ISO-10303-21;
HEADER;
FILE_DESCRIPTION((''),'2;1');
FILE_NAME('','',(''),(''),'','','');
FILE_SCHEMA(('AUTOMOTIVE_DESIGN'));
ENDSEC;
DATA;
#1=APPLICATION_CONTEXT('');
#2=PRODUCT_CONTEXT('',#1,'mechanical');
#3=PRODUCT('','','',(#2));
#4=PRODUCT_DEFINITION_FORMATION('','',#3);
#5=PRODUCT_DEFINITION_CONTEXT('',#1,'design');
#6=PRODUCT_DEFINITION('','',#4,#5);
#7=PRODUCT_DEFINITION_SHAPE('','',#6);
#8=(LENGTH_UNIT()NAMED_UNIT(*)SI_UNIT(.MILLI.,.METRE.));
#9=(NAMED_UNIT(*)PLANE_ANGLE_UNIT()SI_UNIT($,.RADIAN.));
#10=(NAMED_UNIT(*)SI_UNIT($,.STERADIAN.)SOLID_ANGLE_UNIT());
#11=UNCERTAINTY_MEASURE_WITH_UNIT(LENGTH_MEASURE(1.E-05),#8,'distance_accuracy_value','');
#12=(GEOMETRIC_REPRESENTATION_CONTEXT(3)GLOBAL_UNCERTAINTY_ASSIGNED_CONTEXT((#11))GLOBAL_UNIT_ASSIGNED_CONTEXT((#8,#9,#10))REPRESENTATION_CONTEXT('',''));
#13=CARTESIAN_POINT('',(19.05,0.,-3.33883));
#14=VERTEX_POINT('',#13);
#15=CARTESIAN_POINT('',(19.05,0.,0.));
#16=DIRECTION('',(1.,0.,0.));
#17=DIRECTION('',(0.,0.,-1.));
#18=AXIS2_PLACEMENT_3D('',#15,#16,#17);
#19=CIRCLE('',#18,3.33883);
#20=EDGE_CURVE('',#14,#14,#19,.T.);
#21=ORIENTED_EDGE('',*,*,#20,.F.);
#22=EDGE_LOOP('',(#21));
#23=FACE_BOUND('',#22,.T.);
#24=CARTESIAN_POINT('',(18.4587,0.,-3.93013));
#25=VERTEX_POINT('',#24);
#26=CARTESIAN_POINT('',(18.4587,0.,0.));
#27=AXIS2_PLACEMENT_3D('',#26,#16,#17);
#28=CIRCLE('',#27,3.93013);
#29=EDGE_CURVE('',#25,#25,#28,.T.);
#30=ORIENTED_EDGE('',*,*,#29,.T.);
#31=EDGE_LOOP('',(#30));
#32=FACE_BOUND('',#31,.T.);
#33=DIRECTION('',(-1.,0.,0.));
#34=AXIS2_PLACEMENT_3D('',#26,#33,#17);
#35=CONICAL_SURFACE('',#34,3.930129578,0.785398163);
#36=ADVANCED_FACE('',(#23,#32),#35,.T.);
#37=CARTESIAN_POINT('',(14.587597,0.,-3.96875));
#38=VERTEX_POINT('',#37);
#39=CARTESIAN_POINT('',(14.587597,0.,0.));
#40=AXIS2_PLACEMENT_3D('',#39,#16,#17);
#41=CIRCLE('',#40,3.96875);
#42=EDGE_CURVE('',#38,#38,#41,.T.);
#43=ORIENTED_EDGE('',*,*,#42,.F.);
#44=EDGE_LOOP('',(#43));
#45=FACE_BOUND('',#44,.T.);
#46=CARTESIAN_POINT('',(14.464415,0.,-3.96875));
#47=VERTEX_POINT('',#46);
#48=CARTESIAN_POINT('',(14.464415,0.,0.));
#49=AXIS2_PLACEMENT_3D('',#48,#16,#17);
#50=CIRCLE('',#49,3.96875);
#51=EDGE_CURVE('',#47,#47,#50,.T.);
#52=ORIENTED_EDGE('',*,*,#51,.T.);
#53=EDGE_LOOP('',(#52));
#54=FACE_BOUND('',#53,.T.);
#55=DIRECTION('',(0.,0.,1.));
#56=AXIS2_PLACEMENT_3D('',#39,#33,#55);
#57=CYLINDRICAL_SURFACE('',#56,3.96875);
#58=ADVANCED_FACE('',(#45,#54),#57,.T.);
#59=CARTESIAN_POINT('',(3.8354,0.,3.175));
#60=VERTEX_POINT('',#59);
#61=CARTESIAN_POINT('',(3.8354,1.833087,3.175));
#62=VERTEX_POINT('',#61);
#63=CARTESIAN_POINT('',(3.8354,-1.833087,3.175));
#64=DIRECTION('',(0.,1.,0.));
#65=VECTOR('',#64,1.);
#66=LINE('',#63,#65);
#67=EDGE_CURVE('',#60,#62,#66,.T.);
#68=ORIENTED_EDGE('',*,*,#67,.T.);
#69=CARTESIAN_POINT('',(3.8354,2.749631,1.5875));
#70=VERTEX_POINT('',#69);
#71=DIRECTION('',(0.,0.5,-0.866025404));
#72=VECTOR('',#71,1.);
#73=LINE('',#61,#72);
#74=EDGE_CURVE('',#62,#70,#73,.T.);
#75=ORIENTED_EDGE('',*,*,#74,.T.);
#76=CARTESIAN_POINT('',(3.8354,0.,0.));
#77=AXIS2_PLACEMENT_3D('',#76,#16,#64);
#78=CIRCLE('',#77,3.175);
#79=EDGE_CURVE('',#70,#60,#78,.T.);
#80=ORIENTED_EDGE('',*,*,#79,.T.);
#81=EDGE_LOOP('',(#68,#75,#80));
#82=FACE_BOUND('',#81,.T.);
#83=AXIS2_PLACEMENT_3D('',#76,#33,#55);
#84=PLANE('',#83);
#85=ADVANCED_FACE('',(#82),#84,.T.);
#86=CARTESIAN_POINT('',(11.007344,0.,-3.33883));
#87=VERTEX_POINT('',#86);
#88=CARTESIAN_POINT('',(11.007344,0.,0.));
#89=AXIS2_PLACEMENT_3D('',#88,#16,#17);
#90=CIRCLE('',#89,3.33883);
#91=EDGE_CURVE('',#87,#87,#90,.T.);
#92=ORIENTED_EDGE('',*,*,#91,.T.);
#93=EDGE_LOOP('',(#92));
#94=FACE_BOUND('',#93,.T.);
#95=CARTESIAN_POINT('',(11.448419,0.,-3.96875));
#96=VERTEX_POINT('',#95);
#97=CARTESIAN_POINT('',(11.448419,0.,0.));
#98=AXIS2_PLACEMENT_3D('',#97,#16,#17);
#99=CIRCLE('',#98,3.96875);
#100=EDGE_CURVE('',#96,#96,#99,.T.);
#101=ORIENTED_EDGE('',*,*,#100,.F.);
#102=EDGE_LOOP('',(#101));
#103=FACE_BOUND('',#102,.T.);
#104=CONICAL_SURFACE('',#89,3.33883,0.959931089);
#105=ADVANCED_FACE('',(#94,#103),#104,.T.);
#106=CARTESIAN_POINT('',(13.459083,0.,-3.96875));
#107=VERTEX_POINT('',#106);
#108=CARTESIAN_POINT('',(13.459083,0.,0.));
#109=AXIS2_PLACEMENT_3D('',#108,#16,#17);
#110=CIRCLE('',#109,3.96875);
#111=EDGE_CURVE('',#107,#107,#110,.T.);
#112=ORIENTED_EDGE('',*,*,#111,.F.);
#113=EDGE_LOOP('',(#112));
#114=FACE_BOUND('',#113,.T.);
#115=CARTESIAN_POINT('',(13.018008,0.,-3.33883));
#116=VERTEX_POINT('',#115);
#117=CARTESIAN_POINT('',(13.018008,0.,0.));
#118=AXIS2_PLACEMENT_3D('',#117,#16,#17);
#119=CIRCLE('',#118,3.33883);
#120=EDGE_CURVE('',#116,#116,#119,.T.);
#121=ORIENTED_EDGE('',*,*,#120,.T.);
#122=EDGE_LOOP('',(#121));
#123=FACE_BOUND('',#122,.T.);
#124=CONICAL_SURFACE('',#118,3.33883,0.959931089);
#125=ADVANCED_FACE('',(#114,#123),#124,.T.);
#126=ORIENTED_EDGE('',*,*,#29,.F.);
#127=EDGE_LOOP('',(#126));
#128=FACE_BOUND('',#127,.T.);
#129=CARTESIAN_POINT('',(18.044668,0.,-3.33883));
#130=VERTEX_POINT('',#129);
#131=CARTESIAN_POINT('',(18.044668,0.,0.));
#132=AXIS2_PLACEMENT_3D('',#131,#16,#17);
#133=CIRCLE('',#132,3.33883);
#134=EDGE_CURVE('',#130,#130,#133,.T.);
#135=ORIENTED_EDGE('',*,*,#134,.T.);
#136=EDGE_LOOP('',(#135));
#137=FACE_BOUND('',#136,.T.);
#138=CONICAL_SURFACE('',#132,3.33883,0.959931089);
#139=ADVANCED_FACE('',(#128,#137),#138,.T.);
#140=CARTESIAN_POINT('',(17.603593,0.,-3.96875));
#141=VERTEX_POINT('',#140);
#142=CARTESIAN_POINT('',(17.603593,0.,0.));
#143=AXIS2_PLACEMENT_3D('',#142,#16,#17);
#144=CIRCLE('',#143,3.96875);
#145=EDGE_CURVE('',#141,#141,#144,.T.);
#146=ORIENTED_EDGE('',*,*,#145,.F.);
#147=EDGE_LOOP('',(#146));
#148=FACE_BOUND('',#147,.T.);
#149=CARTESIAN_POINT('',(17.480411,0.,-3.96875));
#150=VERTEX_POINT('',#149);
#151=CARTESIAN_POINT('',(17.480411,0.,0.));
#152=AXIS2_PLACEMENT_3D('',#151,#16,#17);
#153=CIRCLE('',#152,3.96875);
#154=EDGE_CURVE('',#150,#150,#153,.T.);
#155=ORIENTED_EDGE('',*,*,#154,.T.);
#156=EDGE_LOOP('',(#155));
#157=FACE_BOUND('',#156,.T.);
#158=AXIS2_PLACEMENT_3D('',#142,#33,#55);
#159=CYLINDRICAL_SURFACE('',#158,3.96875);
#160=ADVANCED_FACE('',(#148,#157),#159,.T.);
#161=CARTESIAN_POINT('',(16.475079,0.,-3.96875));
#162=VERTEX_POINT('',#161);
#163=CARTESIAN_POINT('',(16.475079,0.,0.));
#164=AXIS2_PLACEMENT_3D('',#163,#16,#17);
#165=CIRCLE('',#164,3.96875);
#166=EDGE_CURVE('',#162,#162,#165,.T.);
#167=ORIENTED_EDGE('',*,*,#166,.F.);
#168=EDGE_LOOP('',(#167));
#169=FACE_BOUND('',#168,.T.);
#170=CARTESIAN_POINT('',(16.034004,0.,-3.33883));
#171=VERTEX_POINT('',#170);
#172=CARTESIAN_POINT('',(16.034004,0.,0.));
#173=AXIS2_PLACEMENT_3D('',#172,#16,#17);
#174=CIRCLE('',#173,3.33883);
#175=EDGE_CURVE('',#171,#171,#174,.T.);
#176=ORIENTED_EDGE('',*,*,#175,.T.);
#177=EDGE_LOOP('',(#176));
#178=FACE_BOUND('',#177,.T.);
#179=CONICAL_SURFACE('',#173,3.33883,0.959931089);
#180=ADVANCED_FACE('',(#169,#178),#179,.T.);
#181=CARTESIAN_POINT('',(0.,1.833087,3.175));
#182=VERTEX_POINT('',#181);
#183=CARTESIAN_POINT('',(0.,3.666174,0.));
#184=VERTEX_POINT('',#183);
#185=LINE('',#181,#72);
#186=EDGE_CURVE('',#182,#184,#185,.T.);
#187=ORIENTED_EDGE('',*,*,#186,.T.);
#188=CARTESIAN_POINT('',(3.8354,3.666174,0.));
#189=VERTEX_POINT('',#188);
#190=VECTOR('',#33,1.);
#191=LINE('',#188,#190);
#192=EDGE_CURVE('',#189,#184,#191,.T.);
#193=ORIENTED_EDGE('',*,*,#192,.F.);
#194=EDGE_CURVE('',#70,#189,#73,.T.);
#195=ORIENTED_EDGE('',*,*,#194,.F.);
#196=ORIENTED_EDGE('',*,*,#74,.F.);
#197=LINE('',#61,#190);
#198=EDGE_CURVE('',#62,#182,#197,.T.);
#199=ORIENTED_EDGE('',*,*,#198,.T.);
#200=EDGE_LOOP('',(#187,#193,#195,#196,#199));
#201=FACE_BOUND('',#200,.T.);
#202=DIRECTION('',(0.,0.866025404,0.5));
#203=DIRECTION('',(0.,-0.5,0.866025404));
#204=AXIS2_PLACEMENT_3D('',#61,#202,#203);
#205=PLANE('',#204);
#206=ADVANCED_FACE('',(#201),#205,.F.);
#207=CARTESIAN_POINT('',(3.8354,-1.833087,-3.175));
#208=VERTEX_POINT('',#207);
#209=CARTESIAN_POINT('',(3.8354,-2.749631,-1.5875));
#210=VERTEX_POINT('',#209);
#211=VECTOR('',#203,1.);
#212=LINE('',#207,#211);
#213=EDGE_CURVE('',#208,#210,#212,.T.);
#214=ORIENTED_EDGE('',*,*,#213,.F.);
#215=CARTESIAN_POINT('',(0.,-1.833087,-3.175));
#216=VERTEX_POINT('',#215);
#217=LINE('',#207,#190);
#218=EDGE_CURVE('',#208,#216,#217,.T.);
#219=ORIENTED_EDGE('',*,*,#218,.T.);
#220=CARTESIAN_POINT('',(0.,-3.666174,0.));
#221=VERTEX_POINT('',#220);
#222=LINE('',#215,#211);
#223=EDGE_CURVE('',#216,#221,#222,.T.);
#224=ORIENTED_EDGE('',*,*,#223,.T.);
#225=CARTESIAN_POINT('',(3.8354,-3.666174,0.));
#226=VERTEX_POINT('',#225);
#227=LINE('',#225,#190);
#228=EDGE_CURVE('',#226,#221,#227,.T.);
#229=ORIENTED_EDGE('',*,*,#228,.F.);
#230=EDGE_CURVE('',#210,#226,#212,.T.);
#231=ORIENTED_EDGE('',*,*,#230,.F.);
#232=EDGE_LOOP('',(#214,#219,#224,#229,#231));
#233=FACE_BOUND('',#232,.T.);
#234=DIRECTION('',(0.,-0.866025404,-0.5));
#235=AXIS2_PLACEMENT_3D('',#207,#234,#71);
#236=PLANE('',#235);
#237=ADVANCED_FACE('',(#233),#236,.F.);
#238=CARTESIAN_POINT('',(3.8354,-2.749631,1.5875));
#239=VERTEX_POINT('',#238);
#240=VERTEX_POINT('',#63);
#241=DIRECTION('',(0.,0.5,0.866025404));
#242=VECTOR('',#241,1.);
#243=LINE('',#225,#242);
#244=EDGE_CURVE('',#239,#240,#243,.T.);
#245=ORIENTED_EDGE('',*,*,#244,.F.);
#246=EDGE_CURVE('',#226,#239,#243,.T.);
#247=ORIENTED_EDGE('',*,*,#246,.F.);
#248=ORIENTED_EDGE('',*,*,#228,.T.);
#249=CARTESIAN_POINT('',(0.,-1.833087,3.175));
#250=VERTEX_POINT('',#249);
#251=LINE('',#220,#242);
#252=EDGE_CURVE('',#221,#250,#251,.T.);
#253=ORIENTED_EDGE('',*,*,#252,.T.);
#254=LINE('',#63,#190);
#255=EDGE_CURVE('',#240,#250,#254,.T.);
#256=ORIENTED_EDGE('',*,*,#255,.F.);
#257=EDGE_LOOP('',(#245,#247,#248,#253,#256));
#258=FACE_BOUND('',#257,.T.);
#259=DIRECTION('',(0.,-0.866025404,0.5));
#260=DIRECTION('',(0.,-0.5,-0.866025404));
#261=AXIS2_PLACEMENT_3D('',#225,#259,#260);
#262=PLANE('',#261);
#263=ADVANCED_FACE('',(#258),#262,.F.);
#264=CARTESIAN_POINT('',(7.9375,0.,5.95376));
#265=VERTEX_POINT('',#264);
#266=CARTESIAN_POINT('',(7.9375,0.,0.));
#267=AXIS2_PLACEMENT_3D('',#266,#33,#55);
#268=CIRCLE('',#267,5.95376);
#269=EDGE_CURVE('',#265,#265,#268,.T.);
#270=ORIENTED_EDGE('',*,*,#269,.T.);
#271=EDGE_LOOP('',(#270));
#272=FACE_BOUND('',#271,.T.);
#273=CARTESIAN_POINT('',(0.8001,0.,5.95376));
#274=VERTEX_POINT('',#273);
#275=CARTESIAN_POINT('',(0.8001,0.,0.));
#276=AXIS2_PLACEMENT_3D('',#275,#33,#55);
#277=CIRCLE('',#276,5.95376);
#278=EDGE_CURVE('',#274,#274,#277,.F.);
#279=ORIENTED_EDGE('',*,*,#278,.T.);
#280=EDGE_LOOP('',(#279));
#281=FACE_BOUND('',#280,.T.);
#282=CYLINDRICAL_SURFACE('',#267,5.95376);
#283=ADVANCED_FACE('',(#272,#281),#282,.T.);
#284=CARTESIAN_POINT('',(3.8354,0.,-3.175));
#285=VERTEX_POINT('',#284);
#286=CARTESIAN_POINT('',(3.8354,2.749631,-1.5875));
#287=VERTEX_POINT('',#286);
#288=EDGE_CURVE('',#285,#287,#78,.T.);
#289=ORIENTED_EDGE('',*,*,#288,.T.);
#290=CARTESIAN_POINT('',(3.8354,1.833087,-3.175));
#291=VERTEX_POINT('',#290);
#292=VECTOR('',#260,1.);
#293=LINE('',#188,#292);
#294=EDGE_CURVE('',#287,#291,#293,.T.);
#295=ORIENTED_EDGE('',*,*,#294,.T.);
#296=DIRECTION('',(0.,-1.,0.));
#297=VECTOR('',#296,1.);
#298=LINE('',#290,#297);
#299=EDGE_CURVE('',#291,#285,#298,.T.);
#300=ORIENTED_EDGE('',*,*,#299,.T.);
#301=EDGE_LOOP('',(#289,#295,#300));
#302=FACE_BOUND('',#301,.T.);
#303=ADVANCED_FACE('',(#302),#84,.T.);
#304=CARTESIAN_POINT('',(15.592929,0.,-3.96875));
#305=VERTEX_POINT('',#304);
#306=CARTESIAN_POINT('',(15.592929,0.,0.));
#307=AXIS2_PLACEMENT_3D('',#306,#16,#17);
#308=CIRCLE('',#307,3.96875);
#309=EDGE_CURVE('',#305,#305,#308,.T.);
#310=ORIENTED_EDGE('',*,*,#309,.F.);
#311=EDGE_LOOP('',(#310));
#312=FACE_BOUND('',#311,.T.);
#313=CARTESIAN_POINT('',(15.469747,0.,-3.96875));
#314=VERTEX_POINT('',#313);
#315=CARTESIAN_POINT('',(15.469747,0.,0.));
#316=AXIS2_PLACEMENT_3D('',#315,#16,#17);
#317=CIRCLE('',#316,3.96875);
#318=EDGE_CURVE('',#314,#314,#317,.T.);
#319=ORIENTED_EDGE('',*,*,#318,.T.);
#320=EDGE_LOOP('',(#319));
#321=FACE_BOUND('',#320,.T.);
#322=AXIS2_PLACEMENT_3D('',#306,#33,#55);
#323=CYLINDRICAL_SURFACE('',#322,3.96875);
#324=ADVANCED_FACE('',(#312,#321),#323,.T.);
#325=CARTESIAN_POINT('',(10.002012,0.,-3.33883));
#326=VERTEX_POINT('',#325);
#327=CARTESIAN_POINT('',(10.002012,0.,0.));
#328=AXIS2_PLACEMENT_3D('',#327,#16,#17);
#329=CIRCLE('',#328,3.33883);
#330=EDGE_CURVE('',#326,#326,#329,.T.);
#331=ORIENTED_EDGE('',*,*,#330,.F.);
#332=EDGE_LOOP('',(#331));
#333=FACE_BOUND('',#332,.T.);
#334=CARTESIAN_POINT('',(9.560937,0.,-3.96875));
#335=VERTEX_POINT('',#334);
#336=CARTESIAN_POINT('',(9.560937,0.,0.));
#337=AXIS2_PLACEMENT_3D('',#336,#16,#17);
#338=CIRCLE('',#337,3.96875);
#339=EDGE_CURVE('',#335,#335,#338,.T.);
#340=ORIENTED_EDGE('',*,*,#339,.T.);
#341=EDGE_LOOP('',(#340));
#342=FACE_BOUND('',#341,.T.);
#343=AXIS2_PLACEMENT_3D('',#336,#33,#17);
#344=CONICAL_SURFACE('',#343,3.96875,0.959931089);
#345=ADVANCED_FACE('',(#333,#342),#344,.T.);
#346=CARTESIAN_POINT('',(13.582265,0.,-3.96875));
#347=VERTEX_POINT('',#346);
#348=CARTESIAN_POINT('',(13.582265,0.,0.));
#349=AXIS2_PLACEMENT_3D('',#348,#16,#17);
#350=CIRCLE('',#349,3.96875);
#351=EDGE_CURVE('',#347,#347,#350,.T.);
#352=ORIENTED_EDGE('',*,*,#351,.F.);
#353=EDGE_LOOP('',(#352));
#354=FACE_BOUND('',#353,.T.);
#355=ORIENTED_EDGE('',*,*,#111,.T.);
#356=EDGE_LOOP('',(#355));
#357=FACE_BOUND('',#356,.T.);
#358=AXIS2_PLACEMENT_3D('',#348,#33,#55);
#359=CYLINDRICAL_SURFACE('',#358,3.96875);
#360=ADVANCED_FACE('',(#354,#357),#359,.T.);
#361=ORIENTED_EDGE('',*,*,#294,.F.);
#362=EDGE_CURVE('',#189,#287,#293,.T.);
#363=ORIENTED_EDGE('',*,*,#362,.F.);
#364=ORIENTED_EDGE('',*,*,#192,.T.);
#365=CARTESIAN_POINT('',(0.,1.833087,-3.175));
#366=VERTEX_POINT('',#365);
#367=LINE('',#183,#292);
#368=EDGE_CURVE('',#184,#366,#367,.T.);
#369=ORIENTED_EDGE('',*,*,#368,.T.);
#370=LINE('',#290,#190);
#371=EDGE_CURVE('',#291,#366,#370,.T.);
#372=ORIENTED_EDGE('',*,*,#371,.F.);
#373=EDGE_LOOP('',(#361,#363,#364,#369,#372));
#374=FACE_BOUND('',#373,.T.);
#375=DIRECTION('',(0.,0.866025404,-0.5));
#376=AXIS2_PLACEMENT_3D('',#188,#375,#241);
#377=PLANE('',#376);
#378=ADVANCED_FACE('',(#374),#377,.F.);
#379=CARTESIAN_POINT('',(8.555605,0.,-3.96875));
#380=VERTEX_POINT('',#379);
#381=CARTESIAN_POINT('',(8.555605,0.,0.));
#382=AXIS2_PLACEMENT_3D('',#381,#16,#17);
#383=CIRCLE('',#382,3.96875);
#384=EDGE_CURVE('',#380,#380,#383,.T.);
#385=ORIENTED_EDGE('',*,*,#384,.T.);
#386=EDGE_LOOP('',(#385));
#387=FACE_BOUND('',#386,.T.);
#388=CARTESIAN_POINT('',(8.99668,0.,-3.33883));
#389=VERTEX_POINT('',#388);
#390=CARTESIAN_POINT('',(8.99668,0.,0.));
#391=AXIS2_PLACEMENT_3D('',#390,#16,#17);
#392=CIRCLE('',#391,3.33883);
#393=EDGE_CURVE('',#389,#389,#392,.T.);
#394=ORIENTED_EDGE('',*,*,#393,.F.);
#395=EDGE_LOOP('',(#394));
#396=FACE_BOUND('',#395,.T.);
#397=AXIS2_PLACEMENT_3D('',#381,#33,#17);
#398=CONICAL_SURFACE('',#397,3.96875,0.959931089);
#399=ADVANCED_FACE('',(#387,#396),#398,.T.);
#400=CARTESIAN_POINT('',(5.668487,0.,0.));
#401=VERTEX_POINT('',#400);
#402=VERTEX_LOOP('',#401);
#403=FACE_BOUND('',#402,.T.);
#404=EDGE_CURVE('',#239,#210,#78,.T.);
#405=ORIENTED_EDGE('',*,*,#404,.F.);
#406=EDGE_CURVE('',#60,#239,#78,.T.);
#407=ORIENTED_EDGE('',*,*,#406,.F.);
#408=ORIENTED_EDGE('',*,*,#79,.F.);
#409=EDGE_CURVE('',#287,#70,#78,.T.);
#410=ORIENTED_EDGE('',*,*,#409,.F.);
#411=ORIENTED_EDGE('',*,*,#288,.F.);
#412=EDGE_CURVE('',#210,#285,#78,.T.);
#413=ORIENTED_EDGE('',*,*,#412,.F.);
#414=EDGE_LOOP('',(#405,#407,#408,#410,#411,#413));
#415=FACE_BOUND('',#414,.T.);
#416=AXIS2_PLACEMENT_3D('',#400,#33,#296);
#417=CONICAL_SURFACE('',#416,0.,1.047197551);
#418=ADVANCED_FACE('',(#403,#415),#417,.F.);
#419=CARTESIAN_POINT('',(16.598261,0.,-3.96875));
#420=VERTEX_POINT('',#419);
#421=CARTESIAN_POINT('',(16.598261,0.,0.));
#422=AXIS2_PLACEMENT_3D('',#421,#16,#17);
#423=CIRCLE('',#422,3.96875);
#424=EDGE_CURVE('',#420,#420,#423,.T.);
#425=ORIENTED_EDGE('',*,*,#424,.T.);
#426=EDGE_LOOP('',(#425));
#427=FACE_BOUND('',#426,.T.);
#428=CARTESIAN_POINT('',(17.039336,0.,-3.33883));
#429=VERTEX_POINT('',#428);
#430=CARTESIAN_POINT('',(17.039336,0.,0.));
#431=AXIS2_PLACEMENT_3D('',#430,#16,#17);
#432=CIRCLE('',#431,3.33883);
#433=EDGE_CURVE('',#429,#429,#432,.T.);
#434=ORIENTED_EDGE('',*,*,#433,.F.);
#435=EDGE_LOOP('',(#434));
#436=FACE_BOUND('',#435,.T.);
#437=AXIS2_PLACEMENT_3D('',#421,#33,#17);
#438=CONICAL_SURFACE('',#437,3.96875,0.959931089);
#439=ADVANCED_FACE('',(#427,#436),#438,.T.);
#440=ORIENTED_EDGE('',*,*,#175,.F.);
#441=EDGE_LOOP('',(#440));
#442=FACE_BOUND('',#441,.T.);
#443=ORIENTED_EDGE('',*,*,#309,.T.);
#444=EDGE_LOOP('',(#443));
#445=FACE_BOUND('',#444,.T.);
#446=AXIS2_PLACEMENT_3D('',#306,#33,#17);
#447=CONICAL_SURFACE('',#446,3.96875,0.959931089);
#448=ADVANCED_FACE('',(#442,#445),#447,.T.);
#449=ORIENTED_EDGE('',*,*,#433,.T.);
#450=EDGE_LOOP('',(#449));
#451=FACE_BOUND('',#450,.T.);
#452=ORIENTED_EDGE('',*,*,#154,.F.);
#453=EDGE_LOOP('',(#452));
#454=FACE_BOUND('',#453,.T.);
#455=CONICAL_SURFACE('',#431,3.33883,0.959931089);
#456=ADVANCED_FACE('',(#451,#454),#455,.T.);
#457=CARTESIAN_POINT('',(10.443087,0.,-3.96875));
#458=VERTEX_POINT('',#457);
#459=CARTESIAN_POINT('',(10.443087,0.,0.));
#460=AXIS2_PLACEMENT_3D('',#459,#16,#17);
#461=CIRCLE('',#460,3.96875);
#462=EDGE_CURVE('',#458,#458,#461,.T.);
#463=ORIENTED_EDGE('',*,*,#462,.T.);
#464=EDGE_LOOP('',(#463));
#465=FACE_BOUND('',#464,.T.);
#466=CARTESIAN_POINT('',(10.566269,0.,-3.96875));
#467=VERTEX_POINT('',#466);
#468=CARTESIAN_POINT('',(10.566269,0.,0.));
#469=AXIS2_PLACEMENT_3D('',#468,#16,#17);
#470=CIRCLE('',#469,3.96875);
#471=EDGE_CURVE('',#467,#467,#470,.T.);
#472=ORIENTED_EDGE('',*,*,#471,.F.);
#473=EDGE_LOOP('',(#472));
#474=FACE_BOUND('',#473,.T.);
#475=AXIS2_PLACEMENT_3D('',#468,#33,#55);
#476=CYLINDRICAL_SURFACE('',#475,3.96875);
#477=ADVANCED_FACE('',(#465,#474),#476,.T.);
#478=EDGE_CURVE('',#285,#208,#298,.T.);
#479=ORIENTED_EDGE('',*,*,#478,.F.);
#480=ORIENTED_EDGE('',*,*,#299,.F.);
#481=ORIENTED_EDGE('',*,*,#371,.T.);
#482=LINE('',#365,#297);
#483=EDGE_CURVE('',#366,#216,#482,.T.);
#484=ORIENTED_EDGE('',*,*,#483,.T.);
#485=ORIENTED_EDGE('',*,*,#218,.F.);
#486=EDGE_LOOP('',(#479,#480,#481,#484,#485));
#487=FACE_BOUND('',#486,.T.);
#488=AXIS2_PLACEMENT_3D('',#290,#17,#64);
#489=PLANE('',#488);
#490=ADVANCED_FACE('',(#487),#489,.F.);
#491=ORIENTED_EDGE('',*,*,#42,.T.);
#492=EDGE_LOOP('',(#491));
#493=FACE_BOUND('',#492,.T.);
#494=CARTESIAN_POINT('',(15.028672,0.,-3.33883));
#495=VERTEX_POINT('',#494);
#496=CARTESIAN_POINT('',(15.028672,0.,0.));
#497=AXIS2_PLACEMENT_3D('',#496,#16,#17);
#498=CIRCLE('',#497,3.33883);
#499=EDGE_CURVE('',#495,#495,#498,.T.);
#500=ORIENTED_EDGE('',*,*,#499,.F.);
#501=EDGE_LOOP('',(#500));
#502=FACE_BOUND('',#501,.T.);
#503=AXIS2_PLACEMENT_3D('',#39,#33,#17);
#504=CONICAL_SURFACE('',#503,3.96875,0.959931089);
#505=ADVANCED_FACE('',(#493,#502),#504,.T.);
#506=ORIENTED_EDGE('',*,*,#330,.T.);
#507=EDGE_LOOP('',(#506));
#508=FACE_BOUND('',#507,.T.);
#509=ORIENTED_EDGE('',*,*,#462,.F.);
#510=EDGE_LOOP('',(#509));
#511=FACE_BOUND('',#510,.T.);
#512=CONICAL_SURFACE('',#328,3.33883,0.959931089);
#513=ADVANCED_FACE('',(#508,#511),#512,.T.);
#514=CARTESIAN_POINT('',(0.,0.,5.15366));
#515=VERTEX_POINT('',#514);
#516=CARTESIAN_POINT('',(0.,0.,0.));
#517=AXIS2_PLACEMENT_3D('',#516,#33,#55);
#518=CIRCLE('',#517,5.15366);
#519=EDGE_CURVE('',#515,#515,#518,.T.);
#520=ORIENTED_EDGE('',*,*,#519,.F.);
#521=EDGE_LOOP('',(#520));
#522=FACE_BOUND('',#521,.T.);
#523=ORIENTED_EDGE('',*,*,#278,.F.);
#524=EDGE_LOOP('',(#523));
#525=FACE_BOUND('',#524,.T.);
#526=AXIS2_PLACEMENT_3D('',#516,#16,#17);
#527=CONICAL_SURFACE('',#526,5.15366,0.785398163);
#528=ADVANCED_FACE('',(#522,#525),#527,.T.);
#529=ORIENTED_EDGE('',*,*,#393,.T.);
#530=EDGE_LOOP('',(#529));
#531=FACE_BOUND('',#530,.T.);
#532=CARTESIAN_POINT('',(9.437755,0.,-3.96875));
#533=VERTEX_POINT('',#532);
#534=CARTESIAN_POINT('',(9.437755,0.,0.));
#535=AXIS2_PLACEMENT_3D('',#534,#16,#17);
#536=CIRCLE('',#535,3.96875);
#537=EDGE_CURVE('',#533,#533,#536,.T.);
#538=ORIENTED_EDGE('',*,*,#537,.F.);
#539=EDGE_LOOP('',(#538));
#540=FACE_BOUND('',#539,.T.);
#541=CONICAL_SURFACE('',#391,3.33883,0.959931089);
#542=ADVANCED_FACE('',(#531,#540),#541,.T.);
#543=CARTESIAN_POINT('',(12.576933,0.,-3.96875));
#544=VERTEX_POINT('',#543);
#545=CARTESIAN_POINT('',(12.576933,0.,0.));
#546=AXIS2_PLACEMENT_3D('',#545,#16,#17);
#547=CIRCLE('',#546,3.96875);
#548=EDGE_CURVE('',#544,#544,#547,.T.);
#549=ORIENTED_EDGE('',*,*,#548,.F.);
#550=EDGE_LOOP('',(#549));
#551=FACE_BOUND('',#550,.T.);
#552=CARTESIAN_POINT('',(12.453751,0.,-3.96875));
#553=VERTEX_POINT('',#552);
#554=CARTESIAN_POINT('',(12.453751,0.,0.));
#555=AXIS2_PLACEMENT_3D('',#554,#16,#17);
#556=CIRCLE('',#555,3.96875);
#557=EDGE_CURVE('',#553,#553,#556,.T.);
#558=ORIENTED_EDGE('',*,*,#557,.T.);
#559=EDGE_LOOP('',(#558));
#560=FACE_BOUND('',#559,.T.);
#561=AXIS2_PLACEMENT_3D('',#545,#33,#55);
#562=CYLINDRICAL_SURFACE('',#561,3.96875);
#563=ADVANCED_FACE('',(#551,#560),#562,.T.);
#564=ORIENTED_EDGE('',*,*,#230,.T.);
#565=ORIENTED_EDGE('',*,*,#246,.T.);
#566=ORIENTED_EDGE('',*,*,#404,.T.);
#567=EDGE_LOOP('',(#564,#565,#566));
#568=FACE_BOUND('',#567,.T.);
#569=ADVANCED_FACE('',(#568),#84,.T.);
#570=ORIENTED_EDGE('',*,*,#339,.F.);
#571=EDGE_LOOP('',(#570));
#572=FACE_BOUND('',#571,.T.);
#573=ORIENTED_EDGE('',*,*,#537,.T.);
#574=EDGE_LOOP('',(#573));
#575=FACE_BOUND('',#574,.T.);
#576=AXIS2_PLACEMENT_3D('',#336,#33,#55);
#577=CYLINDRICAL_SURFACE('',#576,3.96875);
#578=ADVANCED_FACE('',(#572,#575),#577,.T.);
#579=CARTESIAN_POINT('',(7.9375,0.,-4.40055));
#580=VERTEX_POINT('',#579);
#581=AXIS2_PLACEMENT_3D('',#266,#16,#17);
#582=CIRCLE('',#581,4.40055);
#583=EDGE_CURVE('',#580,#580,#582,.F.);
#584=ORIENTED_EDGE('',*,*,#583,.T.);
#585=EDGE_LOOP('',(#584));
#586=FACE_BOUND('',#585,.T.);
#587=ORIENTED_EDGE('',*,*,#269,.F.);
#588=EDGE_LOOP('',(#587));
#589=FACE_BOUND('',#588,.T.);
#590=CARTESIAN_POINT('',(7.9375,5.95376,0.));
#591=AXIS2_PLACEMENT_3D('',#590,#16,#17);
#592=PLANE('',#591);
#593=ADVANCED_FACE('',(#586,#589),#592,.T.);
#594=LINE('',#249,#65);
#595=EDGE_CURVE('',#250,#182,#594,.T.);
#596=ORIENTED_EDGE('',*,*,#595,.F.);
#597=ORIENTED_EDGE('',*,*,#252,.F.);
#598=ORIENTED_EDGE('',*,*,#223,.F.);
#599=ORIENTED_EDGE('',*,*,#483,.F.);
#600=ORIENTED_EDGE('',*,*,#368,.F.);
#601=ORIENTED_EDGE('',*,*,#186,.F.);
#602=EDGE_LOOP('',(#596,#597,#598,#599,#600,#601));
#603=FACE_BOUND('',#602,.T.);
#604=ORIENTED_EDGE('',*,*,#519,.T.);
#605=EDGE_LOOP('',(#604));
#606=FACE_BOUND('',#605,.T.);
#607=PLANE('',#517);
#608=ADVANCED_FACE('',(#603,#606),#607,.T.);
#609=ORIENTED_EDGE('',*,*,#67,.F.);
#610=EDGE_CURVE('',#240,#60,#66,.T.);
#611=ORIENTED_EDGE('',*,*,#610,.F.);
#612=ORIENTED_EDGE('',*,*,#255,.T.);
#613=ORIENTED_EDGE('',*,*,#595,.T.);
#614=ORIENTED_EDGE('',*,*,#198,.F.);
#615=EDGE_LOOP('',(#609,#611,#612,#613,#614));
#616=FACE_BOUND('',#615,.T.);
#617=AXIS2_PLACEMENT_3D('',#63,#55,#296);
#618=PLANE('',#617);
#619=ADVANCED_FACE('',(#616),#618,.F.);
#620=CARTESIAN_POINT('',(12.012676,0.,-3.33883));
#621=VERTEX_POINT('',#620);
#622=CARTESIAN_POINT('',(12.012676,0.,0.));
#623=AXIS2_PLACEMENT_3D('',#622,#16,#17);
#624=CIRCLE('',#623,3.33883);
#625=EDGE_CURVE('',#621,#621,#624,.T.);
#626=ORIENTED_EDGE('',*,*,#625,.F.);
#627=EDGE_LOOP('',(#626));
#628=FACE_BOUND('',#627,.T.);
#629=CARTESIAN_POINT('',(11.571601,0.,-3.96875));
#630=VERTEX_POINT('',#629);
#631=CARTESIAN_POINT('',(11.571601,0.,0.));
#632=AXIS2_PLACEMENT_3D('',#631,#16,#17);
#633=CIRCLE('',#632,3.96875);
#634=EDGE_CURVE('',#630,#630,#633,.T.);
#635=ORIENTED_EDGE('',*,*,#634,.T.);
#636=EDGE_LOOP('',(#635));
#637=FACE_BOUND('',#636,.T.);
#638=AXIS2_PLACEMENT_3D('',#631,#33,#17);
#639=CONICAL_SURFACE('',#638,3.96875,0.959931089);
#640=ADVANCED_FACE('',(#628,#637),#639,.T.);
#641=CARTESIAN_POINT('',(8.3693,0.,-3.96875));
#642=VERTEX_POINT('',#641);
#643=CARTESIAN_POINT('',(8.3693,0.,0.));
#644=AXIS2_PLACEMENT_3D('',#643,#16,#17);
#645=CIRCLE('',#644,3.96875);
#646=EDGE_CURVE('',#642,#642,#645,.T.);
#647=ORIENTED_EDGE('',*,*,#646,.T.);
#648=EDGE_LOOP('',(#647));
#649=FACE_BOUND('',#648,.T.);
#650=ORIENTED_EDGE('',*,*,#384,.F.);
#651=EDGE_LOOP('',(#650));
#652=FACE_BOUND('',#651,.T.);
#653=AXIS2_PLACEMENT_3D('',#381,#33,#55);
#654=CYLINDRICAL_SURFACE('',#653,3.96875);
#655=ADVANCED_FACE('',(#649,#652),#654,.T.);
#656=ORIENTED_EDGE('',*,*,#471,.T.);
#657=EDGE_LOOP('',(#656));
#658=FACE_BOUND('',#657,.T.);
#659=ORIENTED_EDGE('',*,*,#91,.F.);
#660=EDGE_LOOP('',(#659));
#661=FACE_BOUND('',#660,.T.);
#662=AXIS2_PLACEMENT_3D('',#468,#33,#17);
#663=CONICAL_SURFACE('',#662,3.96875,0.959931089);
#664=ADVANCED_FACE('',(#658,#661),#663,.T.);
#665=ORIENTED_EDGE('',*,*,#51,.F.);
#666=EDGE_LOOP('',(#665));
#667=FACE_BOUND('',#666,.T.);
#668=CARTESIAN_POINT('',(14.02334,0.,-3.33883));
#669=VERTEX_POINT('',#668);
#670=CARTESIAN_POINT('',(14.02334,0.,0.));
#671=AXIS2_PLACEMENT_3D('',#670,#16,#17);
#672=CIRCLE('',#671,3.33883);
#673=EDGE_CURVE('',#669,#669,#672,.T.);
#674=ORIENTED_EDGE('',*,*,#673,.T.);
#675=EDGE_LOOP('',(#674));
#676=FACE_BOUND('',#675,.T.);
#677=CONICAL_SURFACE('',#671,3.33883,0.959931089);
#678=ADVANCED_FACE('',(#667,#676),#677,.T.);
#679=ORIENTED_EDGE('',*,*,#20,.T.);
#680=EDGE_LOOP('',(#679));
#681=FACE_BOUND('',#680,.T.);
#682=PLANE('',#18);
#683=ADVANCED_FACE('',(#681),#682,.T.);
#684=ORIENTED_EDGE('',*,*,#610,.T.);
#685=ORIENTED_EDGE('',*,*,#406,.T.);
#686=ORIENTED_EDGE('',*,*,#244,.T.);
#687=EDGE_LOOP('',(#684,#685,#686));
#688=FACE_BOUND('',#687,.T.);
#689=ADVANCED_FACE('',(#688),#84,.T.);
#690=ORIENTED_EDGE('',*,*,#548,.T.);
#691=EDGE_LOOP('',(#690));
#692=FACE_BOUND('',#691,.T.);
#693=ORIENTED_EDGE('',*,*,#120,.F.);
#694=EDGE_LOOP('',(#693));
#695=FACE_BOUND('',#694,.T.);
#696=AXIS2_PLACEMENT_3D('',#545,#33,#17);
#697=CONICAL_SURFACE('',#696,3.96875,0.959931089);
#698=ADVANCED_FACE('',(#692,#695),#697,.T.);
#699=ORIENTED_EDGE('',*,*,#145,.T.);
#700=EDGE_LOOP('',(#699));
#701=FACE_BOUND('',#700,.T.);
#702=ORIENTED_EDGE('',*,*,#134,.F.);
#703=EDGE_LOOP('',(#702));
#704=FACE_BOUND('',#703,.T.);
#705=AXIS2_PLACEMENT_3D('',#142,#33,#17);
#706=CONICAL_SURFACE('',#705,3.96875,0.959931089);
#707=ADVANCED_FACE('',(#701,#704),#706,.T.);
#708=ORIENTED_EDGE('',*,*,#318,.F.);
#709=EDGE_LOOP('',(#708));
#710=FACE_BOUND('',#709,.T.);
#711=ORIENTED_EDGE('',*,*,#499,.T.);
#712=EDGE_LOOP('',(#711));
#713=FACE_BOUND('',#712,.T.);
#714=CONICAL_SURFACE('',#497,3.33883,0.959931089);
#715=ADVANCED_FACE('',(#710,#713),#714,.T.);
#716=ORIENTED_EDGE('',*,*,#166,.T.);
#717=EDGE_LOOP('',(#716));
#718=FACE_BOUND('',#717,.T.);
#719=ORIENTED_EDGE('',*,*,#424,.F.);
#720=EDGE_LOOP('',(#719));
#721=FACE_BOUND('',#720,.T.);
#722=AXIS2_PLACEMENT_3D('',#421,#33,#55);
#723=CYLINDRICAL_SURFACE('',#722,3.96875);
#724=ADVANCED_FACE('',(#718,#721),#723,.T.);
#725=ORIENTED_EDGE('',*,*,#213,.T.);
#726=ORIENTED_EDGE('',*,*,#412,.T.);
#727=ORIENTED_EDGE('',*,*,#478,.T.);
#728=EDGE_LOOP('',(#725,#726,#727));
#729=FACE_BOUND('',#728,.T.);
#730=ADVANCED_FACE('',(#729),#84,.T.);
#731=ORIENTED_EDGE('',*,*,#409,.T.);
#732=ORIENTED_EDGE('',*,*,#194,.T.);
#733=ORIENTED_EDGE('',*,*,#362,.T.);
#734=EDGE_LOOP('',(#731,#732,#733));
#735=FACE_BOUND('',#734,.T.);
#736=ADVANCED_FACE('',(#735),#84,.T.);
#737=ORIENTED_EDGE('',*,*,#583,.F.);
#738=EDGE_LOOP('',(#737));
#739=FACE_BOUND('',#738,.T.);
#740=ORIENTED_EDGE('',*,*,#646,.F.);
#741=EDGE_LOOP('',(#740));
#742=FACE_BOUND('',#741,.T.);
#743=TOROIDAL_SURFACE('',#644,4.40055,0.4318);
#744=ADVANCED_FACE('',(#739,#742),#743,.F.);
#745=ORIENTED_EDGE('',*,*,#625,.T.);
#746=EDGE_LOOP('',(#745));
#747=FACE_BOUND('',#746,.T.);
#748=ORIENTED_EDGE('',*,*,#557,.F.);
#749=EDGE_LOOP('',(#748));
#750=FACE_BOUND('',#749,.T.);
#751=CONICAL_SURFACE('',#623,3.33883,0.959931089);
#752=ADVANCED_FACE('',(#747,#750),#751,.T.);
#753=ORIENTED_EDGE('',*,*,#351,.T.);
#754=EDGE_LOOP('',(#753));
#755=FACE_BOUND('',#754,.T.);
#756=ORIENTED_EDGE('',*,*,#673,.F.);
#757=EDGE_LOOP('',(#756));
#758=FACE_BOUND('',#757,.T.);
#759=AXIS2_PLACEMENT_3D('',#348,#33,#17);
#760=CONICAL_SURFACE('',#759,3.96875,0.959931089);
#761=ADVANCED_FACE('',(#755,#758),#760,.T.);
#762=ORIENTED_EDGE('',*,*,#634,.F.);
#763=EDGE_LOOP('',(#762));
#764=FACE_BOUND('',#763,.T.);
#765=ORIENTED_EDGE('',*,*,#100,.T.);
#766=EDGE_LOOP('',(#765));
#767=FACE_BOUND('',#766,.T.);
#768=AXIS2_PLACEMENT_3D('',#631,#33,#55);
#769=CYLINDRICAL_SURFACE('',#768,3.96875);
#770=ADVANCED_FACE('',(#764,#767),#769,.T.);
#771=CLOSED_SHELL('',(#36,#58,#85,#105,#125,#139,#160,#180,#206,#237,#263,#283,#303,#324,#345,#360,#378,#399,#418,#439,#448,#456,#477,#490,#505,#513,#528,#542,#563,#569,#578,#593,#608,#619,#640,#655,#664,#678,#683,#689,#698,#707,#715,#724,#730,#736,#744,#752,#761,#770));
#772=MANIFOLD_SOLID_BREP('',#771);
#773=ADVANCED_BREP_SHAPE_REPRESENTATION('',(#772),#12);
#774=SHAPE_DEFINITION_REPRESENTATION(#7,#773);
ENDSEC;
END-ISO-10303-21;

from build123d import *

# Parameters (mm, degrees)
SKETCH1_W            = 7.9375
SKETCH1_H            = 5.95376
SKETCH2_R            = 3.96875
BOSS_EXTRUDE1_DEPTH  = 0.618105268
SKETCH3_R            = 3.96875
BOSS_EXTRUDE2_DEPTH  = 0.441074733
BOSS_EXTRUDE2_TAPER  = 54.999999997
SKETCH4_R            = 3.33883
BOSS_EXTRUDE3_DEPTH  = 0.441074732
BOSS_EXTRUDE3_DRAFT  = -55
SKETCH5_R            = 3.96875
BOSS_EXTRUDE4_DEPTH  = 0.123182535
SKETCH6_R            = 3.96875
BOSS_EXTRUDE5_DEPTH  = 0.441074732
BOSS_EXTRUDE5_TAPER  = 55.000000002
SKETCH7_R            = 3.33883
BOSS_EXTRUDE6_DEPTH  = 0.441074733
BOSS_EXTRUDE6_DRAFT  = -55
SKETCH8_R            = 3.96875
BOSS_EXTRUDE7_DEPTH  = 0.123182535
SKETCH9_R            = 3.96875
BOSS_EXTRUDE8_DEPTH  = 0.441074733
BOSS_EXTRUDE8_TAPER  = 54.999999997
SKETCH10_R           = 3.33883
BOSS_EXTRUDE9_DEPTH  = 0.441074732
BOSS_EXTRUDE9_DRAFT  = -55
SKETCH11_R           = 3.96875
BOSS_EXTRUDE10_DEPTH = 0.123182535
SKETCH12_R           = 3.96875
BOSS_EXTRUDE11_DEPTH = 0.441074733
BOSS_EXTRUDE11_TAPER = 54.999999997
SKETCH13_R           = 3.33883
BOSS_EXTRUDE12_DEPTH = 0.441074732
BOSS_EXTRUDE12_DRAFT = -55
SKETCH14_R           = 3.96875
BOSS_EXTRUDE13_DEPTH = 0.123182535
SKETCH15_R           = 3.96875
BOSS_EXTRUDE14_DEPTH = 0.441074732
BOSS_EXTRUDE14_TAPER = 55.000000002
SKETCH16_R           = 3.33883
BOSS_EXTRUDE15_DEPTH = 0.441074732
BOSS_EXTRUDE15_DRAFT = -55
SKETCH17_R           = 3.96875
BOSS_EXTRUDE16_DEPTH = 0.123182535
SKETCH18_R           = 3.96875
BOSS_EXTRUDE17_DEPTH = 0.441074732
BOSS_EXTRUDE17_TAPER = 55.000000002
SKETCH19_R           = 3.33883
BOSS_EXTRUDE18_DEPTH = 0.441074732
BOSS_EXTRUDE18_DRAFT = -55
SKETCH20_R           = 3.96875
BOSS_EXTRUDE19_DEPTH = 0.123182535
SKETCH21_R           = 3.96875
BOSS_EXTRUDE20_DEPTH = 0.441074732
BOSS_EXTRUDE20_TAPER = 55.000000002
SKETCH22_R           = 3.33883
BOSS_EXTRUDE21_DEPTH = 0.441074733
BOSS_EXTRUDE21_DRAFT = -55
SKETCH23_R           = 3.96875
BOSS_EXTRUDE22_DEPTH = 0.123182535
SKETCH24_R           = 3.96875
BOSS_EXTRUDE23_DEPTH = 0.441074733
BOSS_EXTRUDE23_TAPER = 54.999999997
SKETCH25_R           = 3.33883
BOSS_EXTRUDE24_DEPTH = 0.441074732
BOSS_EXTRUDE24_DRAFT = -55
SKETCH26_R           = 3.96875
BOSS_EXTRUDE25_DEPTH = 0.123182535
SKETCH27_R           = 3.96875
BOSS_EXTRUDE26_DEPTH = 0.441074733
BOSS_EXTRUDE26_TAPER = 54.999999997
SKETCH28_R           = 3.33883
BOSS_EXTRUDE27_DEPTH = 0.441074732
BOSS_EXTRUDE27_DRAFT = -55
SKETCH29_R           = 3.96875
BOSS_EXTRUDE28_DEPTH = 0.123182535
SKETCH30_R           = 3.96875
BOSS_EXTRUDE29_DEPTH = 0.441074733
BOSS_EXTRUDE29_TAPER = 54.999999997
SKETCH31_R           = 3.33883
BOSS_EXTRUDE30_DEPTH = 0.414032422
BOSS_EXTRUDE30_DRAFT = -54.999999999
SKETCH32_R           = 3.930129578
BOSS_EXTRUDE31_DEPTH = 0.591299578
BOSS_EXTRUDE31_TAPER = 45
CUT_EXTRUDE1_DEPTH   = 3.8354
CHAMFER1_SIZE        = 0.8001
FILLET1_R            = 0.4318


with BuildPart() as part:
    # Sketch1 → Revolve1 (revolve)
    with BuildSketch(Plane(origin=(0, 0, 0), x_dir=(-1, 0, 0), z_dir=(0, 0, -1)), mode=Mode.PRIVATE) as revolve1_sk:
        with Locations((-3.96875, 2.97688)):
            Rectangle(SKETCH1_W, SKETCH1_H)
    revolve(revolve1_sk.sketch.rotate(Axis((7.9375, 0, 0), (-1, 0, 0)), 270), axis=Axis((7.9375, 0, 0), (-1, 0, 0)))

    # Sketch2 → Boss-Extrude1 (add)
    with BuildSketch(Plane(origin=(7.9375, 0, 0), x_dir=(0, 0, -1), z_dir=(1, 0, 0))):
        Circle(SKETCH2_R)
    extrude(amount=BOSS_EXTRUDE1_DEPTH)

    # Sketch3 → Boss-Extrude2 (add)
    with BuildSketch(Plane(origin=(8.555605268, 0, 0), x_dir=(0, 0, -1), z_dir=(1, 0, 0))):
        Circle(SKETCH3_R)
    extrude(amount=BOSS_EXTRUDE2_DEPTH, taper=BOSS_EXTRUDE2_TAPER)


with BuildPart() as boss_extrude3_tool:
    # Sketch4 → Boss-Extrude3 (with draft: the straight prism first)
    with BuildSketch(Plane(origin=(8.99668, 0, 0), x_dir=(0, 0, -1), z_dir=(1, 0, 0))):
        Circle(SKETCH4_R)
    extrude(amount=BOSS_EXTRUDE3_DEPTH)
    # Boss-Extrude3: the draft: its side faces are tilted about the plane it starts from
    boss_extrude3_sides = [boss_extrude3_tool.faces().sort_by_distance(p)[0] for p in [
        (9.217217366, 0, 3.33883),
    ]]
    draft(boss_extrude3_sides, Plane(origin=(8.99668, 0, 0), x_dir=(0, 0, -1), z_dir=(1, 0, 0)), BOSS_EXTRUDE3_DRAFT)


with BuildPart() as part_1:
    add(part.part)

    # Boss-Extrude3: add boss_extrude3_tool
    add(boss_extrude3_tool.part)

    # Sketch5 → Boss-Extrude4 (add)
    with BuildSketch(Plane(origin=(9.437754732, 0, 0), x_dir=(0, 0, -1), z_dir=(1, 0, 0))):
        Circle(SKETCH5_R)
    extrude(amount=BOSS_EXTRUDE4_DEPTH)

    # Sketch6 → Boss-Extrude5 (add)
    with BuildSketch(Plane(origin=(9.560937268, 0, 0), x_dir=(0, 0, -1), z_dir=(1, 0, 0))):
        Circle(SKETCH6_R)
    extrude(amount=BOSS_EXTRUDE5_DEPTH, taper=BOSS_EXTRUDE5_TAPER)


with BuildPart() as boss_extrude6_tool:
    # Sketch7 → Boss-Extrude6 (with draft: the straight prism first)
    with BuildSketch(Plane(origin=(10.002012, 0, 0), x_dir=(0, 0, -1), z_dir=(1, 0, 0))):
        Circle(SKETCH7_R)
    extrude(amount=BOSS_EXTRUDE6_DEPTH)
    # Boss-Extrude6: the draft: its side faces are tilted about the plane it starts from
    boss_extrude6_sides = [boss_extrude6_tool.faces().sort_by_distance(p)[0] for p in [
        (10.222549366, 0, 3.33883),
    ]]
    draft(boss_extrude6_sides, Plane(origin=(10.002012, 0, 0), x_dir=(0, 0, -1), z_dir=(1, 0, 0)), BOSS_EXTRUDE6_DRAFT)


with BuildPart() as part_2:
    add(part_1.part)

    # Boss-Extrude6: add boss_extrude6_tool
    add(boss_extrude6_tool.part)

    # Sketch8 → Boss-Extrude7 (add)
    with BuildSketch(Plane(origin=(10.443086732, 0, 0), x_dir=(0, 0, -1), z_dir=(1, 0, 0))):
        Circle(SKETCH8_R)
    extrude(amount=BOSS_EXTRUDE7_DEPTH)

    # Sketch9 → Boss-Extrude8 (add)
    with BuildSketch(Plane(origin=(10.566269268, 0, 0), x_dir=(0, 0, -1), z_dir=(1, 0, 0))):
        Circle(SKETCH9_R)
    extrude(amount=BOSS_EXTRUDE8_DEPTH, taper=BOSS_EXTRUDE8_TAPER)


with BuildPart() as boss_extrude9_tool:
    # Sketch10 → Boss-Extrude9 (with draft: the straight prism first)
    with BuildSketch(Plane(origin=(11.007344, 0, 0), x_dir=(0, 0, -1), z_dir=(1, 0, 0))):
        Circle(SKETCH10_R)
    extrude(amount=BOSS_EXTRUDE9_DEPTH)
    # Boss-Extrude9: the draft: its side faces are tilted about the plane it starts from
    boss_extrude9_sides = [boss_extrude9_tool.faces().sort_by_distance(p)[0] for p in [
        (11.227881366, 0, 3.33883),
    ]]
    draft(boss_extrude9_sides, Plane(origin=(11.007344, 0, 0), x_dir=(0, 0, -1), z_dir=(1, 0, 0)), BOSS_EXTRUDE9_DRAFT)


with BuildPart() as part_3:
    add(part_2.part)

    # Boss-Extrude9: add boss_extrude9_tool
    add(boss_extrude9_tool.part)

    # Sketch11 → Boss-Extrude10 (add)
    with BuildSketch(Plane(origin=(11.448418732, 0, 0), x_dir=(0, 0, -1), z_dir=(1, 0, 0))):
        Circle(SKETCH11_R)
    extrude(amount=BOSS_EXTRUDE10_DEPTH)

    # Sketch12 → Boss-Extrude11 (add)
    with BuildSketch(Plane(origin=(11.571601268, 0, 0), x_dir=(0, 0, -1), z_dir=(1, 0, 0))):
        Circle(SKETCH12_R)
    extrude(amount=BOSS_EXTRUDE11_DEPTH, taper=BOSS_EXTRUDE11_TAPER)


with BuildPart() as boss_extrude12_tool:
    # Sketch13 → Boss-Extrude12 (with draft: the straight prism first)
    with BuildSketch(Plane(origin=(12.012676, 0, 0), x_dir=(0, 0, -1), z_dir=(1, 0, 0))):
        Circle(SKETCH13_R)
    extrude(amount=BOSS_EXTRUDE12_DEPTH)
    # Boss-Extrude12: the draft: its side faces are tilted about the plane it starts from
    boss_extrude12_sides = [boss_extrude12_tool.faces().sort_by_distance(p)[0] for p in [
        (12.233213366, 0, 3.33883),
    ]]
    draft(boss_extrude12_sides, Plane(origin=(12.012676, 0, 0), x_dir=(0, 0, -1), z_dir=(1, 0, 0)), BOSS_EXTRUDE12_DRAFT)


with BuildPart() as part_4:
    add(part_3.part)

    # Boss-Extrude12: add boss_extrude12_tool
    add(boss_extrude12_tool.part)

    # Sketch14 → Boss-Extrude13 (add)
    with BuildSketch(Plane(origin=(12.453750732, 0, 0), x_dir=(0, 0, -1), z_dir=(1, 0, 0))):
        Circle(SKETCH14_R)
    extrude(amount=BOSS_EXTRUDE13_DEPTH)

    # Sketch15 → Boss-Extrude14 (add)
    with BuildSketch(Plane(origin=(12.576933268, 0, 0), x_dir=(0, 0, -1), z_dir=(1, 0, 0))):
        Circle(SKETCH15_R)
    extrude(amount=BOSS_EXTRUDE14_DEPTH, taper=BOSS_EXTRUDE14_TAPER)


with BuildPart() as boss_extrude15_tool:
    # Sketch16 → Boss-Extrude15 (with draft: the straight prism first)
    with BuildSketch(Plane(origin=(13.018008, 0, 0), x_dir=(0, 0, -1), z_dir=(1, 0, 0))):
        Circle(SKETCH16_R)
    extrude(amount=BOSS_EXTRUDE15_DEPTH)
    # Boss-Extrude15: the draft: its side faces are tilted about the plane it starts from
    boss_extrude15_sides = [boss_extrude15_tool.faces().sort_by_distance(p)[0] for p in [
        (13.238545366, 0, 3.33883),
    ]]
    draft(boss_extrude15_sides, Plane(origin=(13.018008, 0, 0), x_dir=(0, 0, -1), z_dir=(1, 0, 0)), BOSS_EXTRUDE15_DRAFT)


with BuildPart() as part_5:
    add(part_4.part)

    # Boss-Extrude15: add boss_extrude15_tool
    add(boss_extrude15_tool.part)

    # Sketch17 → Boss-Extrude16 (add)
    with BuildSketch(Plane(origin=(13.459082732, 0, 0), x_dir=(0, 0, -1), z_dir=(1, 0, 0))):
        Circle(SKETCH17_R)
    extrude(amount=BOSS_EXTRUDE16_DEPTH)

    # Sketch18 → Boss-Extrude17 (add)
    with BuildSketch(Plane(origin=(13.582265268, 0, 0), x_dir=(0, 0, -1), z_dir=(1, 0, 0))):
        Circle(SKETCH18_R)
    extrude(amount=BOSS_EXTRUDE17_DEPTH, taper=BOSS_EXTRUDE17_TAPER)


with BuildPart() as boss_extrude18_tool:
    # Sketch19 → Boss-Extrude18 (with draft: the straight prism first)
    with BuildSketch(Plane(origin=(14.02334, 0, 0), x_dir=(0, 0, -1), z_dir=(1, 0, 0))):
        Circle(SKETCH19_R)
    extrude(amount=BOSS_EXTRUDE18_DEPTH)
    # Boss-Extrude18: the draft: its side faces are tilted about the plane it starts from
    boss_extrude18_sides = [boss_extrude18_tool.faces().sort_by_distance(p)[0] for p in [
        (14.243877366, 0, 3.33883),
    ]]
    draft(boss_extrude18_sides, Plane(origin=(14.02334, 0, 0), x_dir=(0, 0, -1), z_dir=(1, 0, 0)), BOSS_EXTRUDE18_DRAFT)


with BuildPart() as part_6:
    add(part_5.part)

    # Boss-Extrude18: add boss_extrude18_tool
    add(boss_extrude18_tool.part)

    # Sketch20 → Boss-Extrude19 (add)
    with BuildSketch(Plane(origin=(14.464414732, 0, 0), x_dir=(0, 0, -1), z_dir=(1, 0, 0))):
        Circle(SKETCH20_R)
    extrude(amount=BOSS_EXTRUDE19_DEPTH)

    # Sketch21 → Boss-Extrude20 (add)
    with BuildSketch(Plane(origin=(14.587597268, 0, 0), x_dir=(0, 0, -1), z_dir=(1, 0, 0))):
        Circle(SKETCH21_R)
    extrude(amount=BOSS_EXTRUDE20_DEPTH, taper=BOSS_EXTRUDE20_TAPER)


with BuildPart() as boss_extrude21_tool:
    # Sketch22 → Boss-Extrude21 (with draft: the straight prism first)
    with BuildSketch(Plane(origin=(15.028672, 0, 0), x_dir=(0, 0, -1), z_dir=(1, 0, 0))):
        Circle(SKETCH22_R)
    extrude(amount=BOSS_EXTRUDE21_DEPTH)
    # Boss-Extrude21: the draft: its side faces are tilted about the plane it starts from
    boss_extrude21_sides = [boss_extrude21_tool.faces().sort_by_distance(p)[0] for p in [
        (15.249209366, 0, 3.33883),
    ]]
    draft(boss_extrude21_sides, Plane(origin=(15.028672, 0, 0), x_dir=(0, 0, -1), z_dir=(1, 0, 0)), BOSS_EXTRUDE21_DRAFT)


with BuildPart() as part_7:
    add(part_6.part)

    # Boss-Extrude21: add boss_extrude21_tool
    add(boss_extrude21_tool.part)

    # Sketch23 → Boss-Extrude22 (add)
    with BuildSketch(Plane(origin=(15.469746732, 0, 0), x_dir=(0, 0, -1), z_dir=(1, 0, 0))):
        Circle(SKETCH23_R)
    extrude(amount=BOSS_EXTRUDE22_DEPTH)

    # Sketch24 → Boss-Extrude23 (add)
    with BuildSketch(Plane(origin=(15.592929268, 0, 0), x_dir=(0, 0, -1), z_dir=(1, 0, 0))):
        Circle(SKETCH24_R)
    extrude(amount=BOSS_EXTRUDE23_DEPTH, taper=BOSS_EXTRUDE23_TAPER)


with BuildPart() as boss_extrude24_tool:
    # Sketch25 → Boss-Extrude24 (with draft: the straight prism first)
    with BuildSketch(Plane(origin=(16.034004, 0, 0), x_dir=(0, 0, -1), z_dir=(1, 0, 0))):
        Circle(SKETCH25_R)
    extrude(amount=BOSS_EXTRUDE24_DEPTH)
    # Boss-Extrude24: the draft: its side faces are tilted about the plane it starts from
    boss_extrude24_sides = [boss_extrude24_tool.faces().sort_by_distance(p)[0] for p in [
        (16.254541366, 0, 3.33883),
    ]]
    draft(boss_extrude24_sides, Plane(origin=(16.034004, 0, 0), x_dir=(0, 0, -1), z_dir=(1, 0, 0)), BOSS_EXTRUDE24_DRAFT)


with BuildPart() as part_8:
    add(part_7.part)

    # Boss-Extrude24: add boss_extrude24_tool
    add(boss_extrude24_tool.part)

    # Sketch26 → Boss-Extrude25 (add)
    with BuildSketch(Plane(origin=(16.475078732, 0, 0), x_dir=(0, 0, -1), z_dir=(1, 0, 0))):
        Circle(SKETCH26_R)
    extrude(amount=BOSS_EXTRUDE25_DEPTH)

    # Sketch27 → Boss-Extrude26 (add)
    with BuildSketch(Plane(origin=(16.598261268, 0, 0), x_dir=(0, 0, -1), z_dir=(1, 0, 0))):
        Circle(SKETCH27_R)
    extrude(amount=BOSS_EXTRUDE26_DEPTH, taper=BOSS_EXTRUDE26_TAPER)


with BuildPart() as boss_extrude27_tool:
    # Sketch28 → Boss-Extrude27 (with draft: the straight prism first)
    with BuildSketch(Plane(origin=(17.039336, 0, 0), x_dir=(0, 0, -1), z_dir=(1, 0, 0))):
        Circle(SKETCH28_R)
    extrude(amount=BOSS_EXTRUDE27_DEPTH)
    # Boss-Extrude27: the draft: its side faces are tilted about the plane it starts from
    boss_extrude27_sides = [boss_extrude27_tool.faces().sort_by_distance(p)[0] for p in [
        (17.259873366, 0, 3.33883),
    ]]
    draft(boss_extrude27_sides, Plane(origin=(17.039336, 0, 0), x_dir=(0, 0, -1), z_dir=(1, 0, 0)), BOSS_EXTRUDE27_DRAFT)


with BuildPart() as part_9:
    add(part_8.part)

    # Boss-Extrude27: add boss_extrude27_tool
    add(boss_extrude27_tool.part)

    # Sketch29 → Boss-Extrude28 (add)
    with BuildSketch(Plane(origin=(17.480410732, 0, 0), x_dir=(0, 0, -1), z_dir=(1, 0, 0))):
        Circle(SKETCH29_R)
    extrude(amount=BOSS_EXTRUDE28_DEPTH)

    # Sketch30 → Boss-Extrude29 (add)
    with BuildSketch(Plane(origin=(17.603593268, 0, 0), x_dir=(0, 0, -1), z_dir=(1, 0, 0))):
        Circle(SKETCH30_R)
    extrude(amount=BOSS_EXTRUDE29_DEPTH, taper=BOSS_EXTRUDE29_TAPER)


with BuildPart() as boss_extrude30_tool:
    # Sketch31 → Boss-Extrude30 (with draft: the straight prism first)
    with BuildSketch(Plane(origin=(18.044668, 0, 0), x_dir=(0, 0, -1), z_dir=(1, 0, 0))):
        Circle(SKETCH31_R)
    extrude(amount=BOSS_EXTRUDE30_DEPTH)
    # Boss-Extrude30: the draft: its side faces are tilted about the plane it starts from
    boss_extrude30_sides = [boss_extrude30_tool.faces().sort_by_distance(p)[0] for p in [
        (18.251684211, 0, 3.33883),
    ]]
    draft(boss_extrude30_sides, Plane(origin=(18.044668, 0, 0), x_dir=(0, 0, -1), z_dir=(1, 0, 0)), BOSS_EXTRUDE30_DRAFT)


with BuildPart() as part_10:
    add(part_9.part)

    # Boss-Extrude30: add boss_extrude30_tool
    add(boss_extrude30_tool.part)

    # Sketch32 → Boss-Extrude31 (add)
    with BuildSketch(Plane(origin=(18.458700422, 0, 0), x_dir=(0, 0, -1), z_dir=(1, 0, 0))):
        Circle(SKETCH32_R)
    extrude(amount=BOSS_EXTRUDE31_DEPTH, taper=BOSS_EXTRUDE31_TAPER)

    # Sketch33 → Cut-Extrude1 (cut)
    with BuildSketch(Plane.ZY):
        Polygon((-3.175, -1.833087105), (0, -3.666174209), (3.175, -1.833087105), (3.175, 1.833087105), (0, 3.666174209), (-3.175, 1.833087105), align=None)
    extrude(amount=-CUT_EXTRUDE1_DEPTH, mode=Mode.SUBTRACT)

    # Sketch34 → Cut-Revolve1 (revolve, cut)
    with BuildSketch(Plane.XY, mode=Mode.PRIVATE) as cut_revolve1_sk:
        Polygon((3.8354, 3.175), (3.8354, 0), (5.668487105, 0), align=None)
    revolve(cut_revolve1_sk.sketch.rotate(Axis((3.835375, 0, 0), (1, 0, 0)), 180), axis=Axis((3.835375, 0, 0), (1, 0, 0)), mode=Mode.SUBTRACT)

    # Chamfer1
    chamfer1_edges = [part_10.edges().sort_by_distance(p)[0] for p in [
        (0, 0, -5.95376),
    ]]
    chamfer(chamfer1_edges, length=CHAMFER1_SIZE)

    # Fillet1
    fillet1_edges = [part_10.edges().sort_by_distance(p)[0] for p in [
        (7.9375, 0, 3.96875),
    ]]
    fillet(fillet1_edges, radius=FILLET1_R)


solid = part_10.part
